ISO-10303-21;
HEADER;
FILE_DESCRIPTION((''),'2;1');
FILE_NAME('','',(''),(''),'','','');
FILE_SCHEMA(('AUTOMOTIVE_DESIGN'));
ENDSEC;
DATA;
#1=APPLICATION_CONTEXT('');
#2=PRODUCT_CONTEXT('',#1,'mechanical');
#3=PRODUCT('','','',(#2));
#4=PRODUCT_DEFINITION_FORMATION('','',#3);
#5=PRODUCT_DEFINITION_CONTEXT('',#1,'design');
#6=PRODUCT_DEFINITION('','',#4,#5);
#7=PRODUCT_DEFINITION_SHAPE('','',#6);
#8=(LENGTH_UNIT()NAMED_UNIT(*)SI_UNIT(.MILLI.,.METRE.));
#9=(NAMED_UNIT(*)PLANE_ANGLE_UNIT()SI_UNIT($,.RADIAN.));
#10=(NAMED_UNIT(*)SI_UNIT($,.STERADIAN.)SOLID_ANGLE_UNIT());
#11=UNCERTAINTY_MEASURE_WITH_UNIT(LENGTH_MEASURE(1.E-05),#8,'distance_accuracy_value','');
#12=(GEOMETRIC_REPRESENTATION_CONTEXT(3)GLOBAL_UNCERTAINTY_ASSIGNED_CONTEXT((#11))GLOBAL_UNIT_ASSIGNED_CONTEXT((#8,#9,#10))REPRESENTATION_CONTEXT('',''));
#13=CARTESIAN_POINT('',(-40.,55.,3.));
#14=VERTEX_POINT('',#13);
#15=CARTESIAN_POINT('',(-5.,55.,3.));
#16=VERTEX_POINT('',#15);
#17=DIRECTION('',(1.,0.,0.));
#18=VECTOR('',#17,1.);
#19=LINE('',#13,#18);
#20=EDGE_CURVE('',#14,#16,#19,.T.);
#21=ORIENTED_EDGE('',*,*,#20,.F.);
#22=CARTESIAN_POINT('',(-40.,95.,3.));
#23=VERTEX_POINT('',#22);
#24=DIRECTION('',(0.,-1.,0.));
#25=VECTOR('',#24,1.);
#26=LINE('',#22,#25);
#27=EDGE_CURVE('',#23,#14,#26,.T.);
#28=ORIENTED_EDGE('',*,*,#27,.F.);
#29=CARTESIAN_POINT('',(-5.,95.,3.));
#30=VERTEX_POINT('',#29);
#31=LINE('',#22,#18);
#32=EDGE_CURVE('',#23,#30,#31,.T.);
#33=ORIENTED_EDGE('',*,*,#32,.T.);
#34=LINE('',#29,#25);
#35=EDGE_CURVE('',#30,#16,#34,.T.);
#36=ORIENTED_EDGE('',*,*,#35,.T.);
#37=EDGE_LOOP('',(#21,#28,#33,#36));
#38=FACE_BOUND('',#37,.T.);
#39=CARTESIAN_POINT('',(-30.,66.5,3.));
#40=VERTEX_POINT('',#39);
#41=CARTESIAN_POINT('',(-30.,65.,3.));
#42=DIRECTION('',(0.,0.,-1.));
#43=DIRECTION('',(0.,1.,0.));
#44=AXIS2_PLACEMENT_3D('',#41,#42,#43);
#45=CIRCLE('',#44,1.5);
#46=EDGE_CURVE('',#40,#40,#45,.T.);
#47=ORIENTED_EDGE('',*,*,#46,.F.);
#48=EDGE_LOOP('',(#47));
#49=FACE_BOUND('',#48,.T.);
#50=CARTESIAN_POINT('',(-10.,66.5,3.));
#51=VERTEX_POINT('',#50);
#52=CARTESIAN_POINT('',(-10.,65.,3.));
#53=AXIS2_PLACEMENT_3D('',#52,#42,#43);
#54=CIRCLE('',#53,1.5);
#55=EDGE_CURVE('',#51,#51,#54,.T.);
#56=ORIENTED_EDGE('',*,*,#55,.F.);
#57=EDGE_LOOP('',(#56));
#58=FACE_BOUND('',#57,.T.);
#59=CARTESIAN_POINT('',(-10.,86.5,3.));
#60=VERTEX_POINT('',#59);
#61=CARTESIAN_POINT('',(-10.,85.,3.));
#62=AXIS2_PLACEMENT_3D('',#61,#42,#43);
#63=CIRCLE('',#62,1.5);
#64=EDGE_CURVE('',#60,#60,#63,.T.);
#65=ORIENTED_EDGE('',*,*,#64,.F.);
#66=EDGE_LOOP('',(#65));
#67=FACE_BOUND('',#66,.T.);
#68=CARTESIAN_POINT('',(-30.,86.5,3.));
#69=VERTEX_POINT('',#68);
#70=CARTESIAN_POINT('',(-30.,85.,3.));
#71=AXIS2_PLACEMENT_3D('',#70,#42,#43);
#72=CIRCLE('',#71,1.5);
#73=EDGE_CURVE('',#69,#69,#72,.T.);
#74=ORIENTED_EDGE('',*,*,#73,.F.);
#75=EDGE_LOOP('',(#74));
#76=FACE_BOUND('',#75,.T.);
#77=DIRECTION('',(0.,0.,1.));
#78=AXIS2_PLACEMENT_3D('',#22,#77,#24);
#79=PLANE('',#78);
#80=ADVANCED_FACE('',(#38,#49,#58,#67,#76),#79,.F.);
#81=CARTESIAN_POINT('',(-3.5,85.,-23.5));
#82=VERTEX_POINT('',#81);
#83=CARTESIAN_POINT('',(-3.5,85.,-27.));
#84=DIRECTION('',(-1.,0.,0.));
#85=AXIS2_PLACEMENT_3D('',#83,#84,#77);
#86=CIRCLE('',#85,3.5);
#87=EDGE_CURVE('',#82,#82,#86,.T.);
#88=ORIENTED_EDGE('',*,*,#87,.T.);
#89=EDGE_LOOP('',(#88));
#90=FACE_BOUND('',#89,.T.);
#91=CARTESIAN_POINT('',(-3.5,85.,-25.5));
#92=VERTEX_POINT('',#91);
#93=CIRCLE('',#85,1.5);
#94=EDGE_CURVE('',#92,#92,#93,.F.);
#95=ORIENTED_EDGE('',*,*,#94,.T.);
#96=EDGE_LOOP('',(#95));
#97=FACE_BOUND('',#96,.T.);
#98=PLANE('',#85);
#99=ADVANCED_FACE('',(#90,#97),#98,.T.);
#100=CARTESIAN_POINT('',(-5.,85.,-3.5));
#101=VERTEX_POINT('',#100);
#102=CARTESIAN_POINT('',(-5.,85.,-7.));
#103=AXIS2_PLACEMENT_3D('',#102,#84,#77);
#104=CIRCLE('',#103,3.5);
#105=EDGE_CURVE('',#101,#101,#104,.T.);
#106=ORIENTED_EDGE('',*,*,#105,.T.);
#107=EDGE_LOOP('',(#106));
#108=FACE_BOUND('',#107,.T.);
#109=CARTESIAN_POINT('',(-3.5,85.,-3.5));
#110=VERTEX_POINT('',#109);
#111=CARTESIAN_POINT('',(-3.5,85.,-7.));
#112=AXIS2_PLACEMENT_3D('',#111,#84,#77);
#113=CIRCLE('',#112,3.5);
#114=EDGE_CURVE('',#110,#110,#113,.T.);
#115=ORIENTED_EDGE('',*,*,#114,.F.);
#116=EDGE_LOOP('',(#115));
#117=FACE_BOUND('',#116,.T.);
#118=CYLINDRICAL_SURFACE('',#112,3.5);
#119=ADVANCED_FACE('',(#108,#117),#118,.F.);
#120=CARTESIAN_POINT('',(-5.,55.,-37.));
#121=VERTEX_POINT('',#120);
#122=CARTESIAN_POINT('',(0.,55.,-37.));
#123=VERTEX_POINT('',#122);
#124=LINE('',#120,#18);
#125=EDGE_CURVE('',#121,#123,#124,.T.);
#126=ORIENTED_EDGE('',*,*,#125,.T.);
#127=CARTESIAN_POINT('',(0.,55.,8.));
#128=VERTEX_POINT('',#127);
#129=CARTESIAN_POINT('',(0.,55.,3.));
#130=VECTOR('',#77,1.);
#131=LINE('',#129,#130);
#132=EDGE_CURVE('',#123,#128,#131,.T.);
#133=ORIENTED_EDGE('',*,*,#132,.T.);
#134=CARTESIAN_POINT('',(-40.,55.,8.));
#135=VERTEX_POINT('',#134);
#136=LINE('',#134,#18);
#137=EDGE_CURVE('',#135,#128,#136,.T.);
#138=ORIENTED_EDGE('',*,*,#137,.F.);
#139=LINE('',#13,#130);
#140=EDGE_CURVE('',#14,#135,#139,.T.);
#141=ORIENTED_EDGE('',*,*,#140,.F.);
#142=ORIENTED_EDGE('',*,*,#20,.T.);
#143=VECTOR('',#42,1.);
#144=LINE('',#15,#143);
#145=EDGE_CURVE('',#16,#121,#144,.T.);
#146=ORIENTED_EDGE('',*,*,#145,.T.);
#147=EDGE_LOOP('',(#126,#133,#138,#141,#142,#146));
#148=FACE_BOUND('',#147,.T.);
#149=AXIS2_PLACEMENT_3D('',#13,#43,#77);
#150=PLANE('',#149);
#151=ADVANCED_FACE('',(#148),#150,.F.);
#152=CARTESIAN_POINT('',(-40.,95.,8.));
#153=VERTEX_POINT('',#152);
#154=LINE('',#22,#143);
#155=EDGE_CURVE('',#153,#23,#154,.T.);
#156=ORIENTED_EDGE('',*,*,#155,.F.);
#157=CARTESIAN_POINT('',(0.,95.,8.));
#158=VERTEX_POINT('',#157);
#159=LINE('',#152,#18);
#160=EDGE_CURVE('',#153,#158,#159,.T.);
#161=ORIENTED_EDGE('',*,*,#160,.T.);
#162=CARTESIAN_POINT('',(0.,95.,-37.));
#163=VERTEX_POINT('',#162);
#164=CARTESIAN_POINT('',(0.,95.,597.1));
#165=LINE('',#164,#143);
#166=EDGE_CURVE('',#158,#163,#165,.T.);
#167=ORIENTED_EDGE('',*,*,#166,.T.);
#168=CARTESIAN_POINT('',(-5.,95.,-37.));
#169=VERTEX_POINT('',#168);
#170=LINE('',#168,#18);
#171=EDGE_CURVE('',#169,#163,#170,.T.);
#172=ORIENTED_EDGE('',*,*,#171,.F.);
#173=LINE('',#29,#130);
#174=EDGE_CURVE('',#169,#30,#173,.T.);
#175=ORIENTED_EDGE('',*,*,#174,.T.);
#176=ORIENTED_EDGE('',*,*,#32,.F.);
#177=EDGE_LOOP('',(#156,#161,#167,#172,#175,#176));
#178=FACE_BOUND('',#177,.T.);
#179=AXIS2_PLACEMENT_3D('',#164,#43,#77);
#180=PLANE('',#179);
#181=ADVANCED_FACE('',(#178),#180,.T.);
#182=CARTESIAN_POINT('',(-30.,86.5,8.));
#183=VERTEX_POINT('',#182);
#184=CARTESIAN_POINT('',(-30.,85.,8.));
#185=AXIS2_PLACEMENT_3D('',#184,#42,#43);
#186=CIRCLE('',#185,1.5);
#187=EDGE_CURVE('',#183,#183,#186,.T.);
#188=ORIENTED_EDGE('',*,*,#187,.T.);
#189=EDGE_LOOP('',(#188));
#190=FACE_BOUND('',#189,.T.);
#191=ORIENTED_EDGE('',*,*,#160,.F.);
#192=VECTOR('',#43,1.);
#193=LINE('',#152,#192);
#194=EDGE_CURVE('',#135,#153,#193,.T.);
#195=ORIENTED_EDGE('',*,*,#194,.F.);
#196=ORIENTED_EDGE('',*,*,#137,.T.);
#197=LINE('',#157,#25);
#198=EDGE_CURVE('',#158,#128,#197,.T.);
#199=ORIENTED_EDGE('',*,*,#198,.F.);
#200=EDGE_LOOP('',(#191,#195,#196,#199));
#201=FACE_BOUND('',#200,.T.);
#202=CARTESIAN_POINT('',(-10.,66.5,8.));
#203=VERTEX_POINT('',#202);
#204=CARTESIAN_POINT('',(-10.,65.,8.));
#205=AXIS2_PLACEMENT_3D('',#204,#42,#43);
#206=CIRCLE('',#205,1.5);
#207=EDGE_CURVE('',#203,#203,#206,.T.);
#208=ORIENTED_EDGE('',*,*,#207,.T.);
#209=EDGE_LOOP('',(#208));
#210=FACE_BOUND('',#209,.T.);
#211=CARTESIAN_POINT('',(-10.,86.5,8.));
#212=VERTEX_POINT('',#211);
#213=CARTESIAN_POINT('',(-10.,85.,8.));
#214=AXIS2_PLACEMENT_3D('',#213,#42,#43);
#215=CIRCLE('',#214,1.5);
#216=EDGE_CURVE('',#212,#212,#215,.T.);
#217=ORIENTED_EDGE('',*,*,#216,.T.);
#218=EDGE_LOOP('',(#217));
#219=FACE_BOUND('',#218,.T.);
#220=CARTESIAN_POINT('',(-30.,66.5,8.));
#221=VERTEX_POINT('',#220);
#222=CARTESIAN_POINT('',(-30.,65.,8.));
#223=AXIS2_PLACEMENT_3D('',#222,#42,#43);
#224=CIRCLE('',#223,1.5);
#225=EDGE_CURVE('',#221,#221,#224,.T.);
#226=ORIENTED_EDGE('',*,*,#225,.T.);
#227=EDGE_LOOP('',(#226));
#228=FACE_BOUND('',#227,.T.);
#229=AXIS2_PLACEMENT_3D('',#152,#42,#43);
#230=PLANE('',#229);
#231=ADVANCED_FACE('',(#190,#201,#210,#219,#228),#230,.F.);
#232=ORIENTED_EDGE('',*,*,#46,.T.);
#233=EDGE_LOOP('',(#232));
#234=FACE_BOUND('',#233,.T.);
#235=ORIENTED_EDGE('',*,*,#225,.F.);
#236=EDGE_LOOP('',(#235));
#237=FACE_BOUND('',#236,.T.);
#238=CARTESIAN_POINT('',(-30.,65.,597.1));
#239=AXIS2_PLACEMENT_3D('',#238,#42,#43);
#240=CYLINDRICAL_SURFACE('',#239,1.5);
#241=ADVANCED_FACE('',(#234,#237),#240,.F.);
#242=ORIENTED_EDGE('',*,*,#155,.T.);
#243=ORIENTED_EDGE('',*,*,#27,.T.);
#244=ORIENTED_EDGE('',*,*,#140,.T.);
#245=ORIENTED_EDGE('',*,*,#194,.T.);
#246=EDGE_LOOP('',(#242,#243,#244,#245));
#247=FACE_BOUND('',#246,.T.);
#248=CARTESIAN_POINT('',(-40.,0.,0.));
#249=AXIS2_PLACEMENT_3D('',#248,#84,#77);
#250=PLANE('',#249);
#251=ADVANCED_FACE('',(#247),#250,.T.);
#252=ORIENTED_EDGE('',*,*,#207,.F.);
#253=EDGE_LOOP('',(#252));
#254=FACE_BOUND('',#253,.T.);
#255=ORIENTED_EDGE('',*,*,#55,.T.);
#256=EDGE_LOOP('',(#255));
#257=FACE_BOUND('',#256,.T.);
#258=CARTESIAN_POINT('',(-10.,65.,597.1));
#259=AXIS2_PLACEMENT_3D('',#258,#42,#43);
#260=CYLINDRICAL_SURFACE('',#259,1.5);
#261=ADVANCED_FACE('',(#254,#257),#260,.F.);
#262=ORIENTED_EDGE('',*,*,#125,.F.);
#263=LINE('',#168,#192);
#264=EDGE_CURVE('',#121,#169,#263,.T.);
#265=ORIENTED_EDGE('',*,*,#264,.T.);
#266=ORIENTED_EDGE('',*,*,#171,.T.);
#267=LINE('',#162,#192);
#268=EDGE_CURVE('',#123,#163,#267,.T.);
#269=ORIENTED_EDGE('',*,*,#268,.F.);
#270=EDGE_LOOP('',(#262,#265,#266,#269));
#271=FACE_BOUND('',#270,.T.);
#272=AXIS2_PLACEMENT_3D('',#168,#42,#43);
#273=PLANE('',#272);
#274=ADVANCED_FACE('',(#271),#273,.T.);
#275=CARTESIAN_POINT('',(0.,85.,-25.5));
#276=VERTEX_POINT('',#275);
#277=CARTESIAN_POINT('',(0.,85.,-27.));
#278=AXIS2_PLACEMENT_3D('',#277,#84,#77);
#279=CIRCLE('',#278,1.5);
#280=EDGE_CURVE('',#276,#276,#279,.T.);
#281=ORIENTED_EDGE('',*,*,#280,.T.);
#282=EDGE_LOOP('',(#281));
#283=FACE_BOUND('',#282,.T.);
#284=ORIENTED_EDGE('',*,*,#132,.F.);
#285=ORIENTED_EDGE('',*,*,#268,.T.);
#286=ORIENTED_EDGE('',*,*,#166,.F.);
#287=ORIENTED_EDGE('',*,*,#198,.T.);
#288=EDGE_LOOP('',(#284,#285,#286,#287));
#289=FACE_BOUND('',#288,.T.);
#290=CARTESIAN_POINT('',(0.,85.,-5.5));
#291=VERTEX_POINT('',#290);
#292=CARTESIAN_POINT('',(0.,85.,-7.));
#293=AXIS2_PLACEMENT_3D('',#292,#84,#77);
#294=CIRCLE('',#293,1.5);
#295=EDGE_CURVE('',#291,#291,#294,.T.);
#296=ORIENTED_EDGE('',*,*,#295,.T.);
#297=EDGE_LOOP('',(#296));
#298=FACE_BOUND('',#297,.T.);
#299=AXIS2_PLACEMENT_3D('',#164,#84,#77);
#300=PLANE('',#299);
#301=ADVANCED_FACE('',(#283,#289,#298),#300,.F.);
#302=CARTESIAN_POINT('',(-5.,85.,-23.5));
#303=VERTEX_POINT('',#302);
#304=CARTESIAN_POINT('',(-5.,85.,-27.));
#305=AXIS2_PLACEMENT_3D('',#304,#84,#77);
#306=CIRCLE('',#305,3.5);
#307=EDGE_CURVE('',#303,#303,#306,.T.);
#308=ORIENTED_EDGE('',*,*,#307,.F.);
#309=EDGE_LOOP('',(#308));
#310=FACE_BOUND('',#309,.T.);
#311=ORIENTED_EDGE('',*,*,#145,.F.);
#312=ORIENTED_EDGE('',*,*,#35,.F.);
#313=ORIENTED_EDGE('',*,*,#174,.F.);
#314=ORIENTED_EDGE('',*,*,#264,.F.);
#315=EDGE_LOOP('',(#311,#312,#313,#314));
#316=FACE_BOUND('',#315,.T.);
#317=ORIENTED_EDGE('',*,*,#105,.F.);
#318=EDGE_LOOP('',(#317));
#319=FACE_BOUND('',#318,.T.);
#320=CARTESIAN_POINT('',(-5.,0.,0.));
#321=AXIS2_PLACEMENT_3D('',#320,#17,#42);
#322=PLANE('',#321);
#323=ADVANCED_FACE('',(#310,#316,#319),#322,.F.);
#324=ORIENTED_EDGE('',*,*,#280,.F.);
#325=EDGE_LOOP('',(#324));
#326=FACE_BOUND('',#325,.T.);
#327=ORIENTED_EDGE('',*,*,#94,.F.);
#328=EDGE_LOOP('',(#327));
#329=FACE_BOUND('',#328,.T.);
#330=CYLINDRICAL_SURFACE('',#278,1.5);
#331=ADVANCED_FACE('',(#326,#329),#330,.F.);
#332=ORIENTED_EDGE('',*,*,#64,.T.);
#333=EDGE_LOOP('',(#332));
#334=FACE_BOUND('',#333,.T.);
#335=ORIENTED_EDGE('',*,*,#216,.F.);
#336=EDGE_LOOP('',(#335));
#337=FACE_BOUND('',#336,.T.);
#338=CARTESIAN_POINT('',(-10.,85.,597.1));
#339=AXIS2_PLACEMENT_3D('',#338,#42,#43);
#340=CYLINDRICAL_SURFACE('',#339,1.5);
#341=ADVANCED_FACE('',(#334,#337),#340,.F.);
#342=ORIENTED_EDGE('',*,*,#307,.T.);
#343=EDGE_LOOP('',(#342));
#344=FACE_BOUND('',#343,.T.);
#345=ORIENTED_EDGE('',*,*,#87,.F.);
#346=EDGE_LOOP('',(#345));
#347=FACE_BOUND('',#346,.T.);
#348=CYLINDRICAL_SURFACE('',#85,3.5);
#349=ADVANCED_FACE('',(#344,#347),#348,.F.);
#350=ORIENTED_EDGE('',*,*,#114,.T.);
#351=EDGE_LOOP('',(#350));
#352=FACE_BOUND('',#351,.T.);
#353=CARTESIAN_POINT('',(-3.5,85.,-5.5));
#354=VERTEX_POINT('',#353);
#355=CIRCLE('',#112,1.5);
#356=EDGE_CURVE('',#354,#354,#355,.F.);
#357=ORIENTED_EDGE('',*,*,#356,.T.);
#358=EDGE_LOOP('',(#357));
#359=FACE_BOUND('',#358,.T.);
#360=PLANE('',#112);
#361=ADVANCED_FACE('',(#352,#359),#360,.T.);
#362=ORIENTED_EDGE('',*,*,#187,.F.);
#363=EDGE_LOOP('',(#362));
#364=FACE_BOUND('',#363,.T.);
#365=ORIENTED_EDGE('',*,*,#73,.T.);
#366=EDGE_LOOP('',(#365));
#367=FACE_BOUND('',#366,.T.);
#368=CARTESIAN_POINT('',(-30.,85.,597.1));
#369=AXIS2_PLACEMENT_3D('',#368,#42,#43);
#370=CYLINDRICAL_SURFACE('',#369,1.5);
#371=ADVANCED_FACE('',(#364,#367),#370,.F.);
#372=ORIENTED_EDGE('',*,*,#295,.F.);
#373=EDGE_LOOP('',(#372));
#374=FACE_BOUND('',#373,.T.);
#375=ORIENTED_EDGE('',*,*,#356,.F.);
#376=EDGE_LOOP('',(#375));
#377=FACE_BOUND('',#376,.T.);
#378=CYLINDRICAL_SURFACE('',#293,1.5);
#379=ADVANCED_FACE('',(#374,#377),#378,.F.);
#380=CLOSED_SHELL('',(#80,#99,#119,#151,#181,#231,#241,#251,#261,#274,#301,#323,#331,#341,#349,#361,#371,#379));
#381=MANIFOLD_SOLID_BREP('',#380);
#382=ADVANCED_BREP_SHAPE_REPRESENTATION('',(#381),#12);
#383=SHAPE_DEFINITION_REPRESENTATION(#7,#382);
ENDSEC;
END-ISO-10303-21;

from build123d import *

# Parameters (mm, degrees)
BOSS_EXTRUDE1_DEPTH  = 597.1
SKETCH2_W            = 65.2
SKETCH2_H            = 400
CUT_EXTRUDE1_DEPTH   = 800.095369778
BOSS_EXTRUDE2_DEPTH  = 8
SKETCH4_W            = 525
SKETCH4_H            = 597.1
BOSS_EXTRUDE3_DEPTH  = 7
SKETCH5_W            = 365
SKETCH5_H            = 597.1
CUT_EXTRUDE2_DEPTH   = 10
CUT_EXTRUDE3_REACH   = 802.736
SKETCH6_R            = 2.125
SKETCH7_W            = 20
SKETCH7_H            = 597.1
CUT_EXTRUDE4_DEPTH   = 5
SKETCH8_W            = 55.055493435
SKETCH8_H            = 20
CUT_EXTRUDE6_DEPTH   = 60
BOSS_EXTRUDE4_REACH  = 799.121
SKETCH13_W           = 40
SKETCH13_H           = 15
SKETCH14_W           = 20
SKETCH14_H           = 597.1
CUT_EXTRUDE7_DEPTH   = 5
CUT_EXTRUDE8_REACH   = 802.736
SKETCH15_R           = 1.33
SKETCH16_W           = 35
SKETCH16_H           = 15
CUT_EXTRUDE9_DEPTH   = 60
SKETCH17_W           = 60
SKETCH17_H           = 150
CUT_EXTRUDE10_DEPTH  = 40
SKETCH18_W           = 12
SKETCH18_H           = 16
CUT_EXTRUDE11_DEPTH  = 800.298073312
SKETCH19_W           = 8
SKETCH19_H           = 7
CUT_EXTRUDE12_DEPTH  = 10
CUT_EXTRUDE13_REACH  = 802.736
SKETCH20_R           = 2.75986214
SKETCH20_R_2         = 2.757960919
SKETCH20_R_3         = 2.776094021
SKETCH20_R_4         = 2.751394876
CUT_EXTRUDE14_REACH  = 802.736
SKETCH21_R           = 1.643359813
SKETCH21_R_2         = 1.638913006
SKETCH21_R_3         = 1.644479807
SKETCH21_R_4         = 1.70596398
SKETCH21_R_5         = 1.645380558
SKETCH21_R_6         = 1.646601879
SKETCH21_R_7         = 1.661334202
SKETCH21_R_8         = 1.701244733
CUT_EXTRUDE15_REACH  = 752.719
SKETCH22_W           = 15
SKETCH22_H           = 20
CUT_EXTRUDE16_REACH  = 802.736
SKETCH24_R           = 1.5
SKETCH27_W           = 35
SKETCH27_H           = 15
CUT_EXTRUDE17_DEPTH  = 60
CUT_EXTRUDE18_START  = -60
SKETCH28_W           = 35
SKETCH28_H           = 15
SKETCH28_R           = 1.5
CUT_EXTRUDE18_DEPTH  = 60
SKETCH29_W           = 60
SKETCH29_H           = 150
CUT_EXTRUDE19_DEPTH  = 40
CUT_EXTRUDE20_REACH  = 802.736
SKETCH33_R           = 2.5
SKETCH37_W           = 55
SKETCH37_H           = 20
CUT_EXTRUDE21_DEPTH  = 60
SKETCH39_W           = 5
SKETCH39_H           = 40
BOSS_EXTRUDE6_DEPTH  = 40
SKETCH41_R           = 1.5
CUT_EXTRUDE22_DEPTH  = 799.501603004
SKETCH42_W           = 35
SKETCH42_H           = 15
BOSS_EXTRUDE7_DEPTH  = 60
SKETCH43_W           = 41.147889502
SKETCH43_H           = 41.618954825
SKETCH43_W_2         = 42.4363484
SKETCH43_H_2         = 40
BOSS_EXTRUDE8_DEPTH  = 20
SKETCH44_W           = 49.636924656
SKETCH44_H           = 46.225017069
SKETCH44_W_2         = 46.873520021
BOSS_EXTRUDE9_DEPTH  = 20
SKETCH45_W           = 35
SKETCH45_H           = 15
BOSS_EXTRUDE10_DEPTH = 60
SKETCH46_W           = 5
SKETCH46_H           = 40
BOSS_EXTRUDE11_DEPTH = 40
SKETCH47_R           = 1.5
CUT_EXTRUDE23_DEPTH  = 826.351325194
FILLET1_R            = 5
FILLET2_R            = 5
SKETCH51_W           = 40
SKETCH51_H           = 40
BOSS_EXTRUDE12_DEPTH = 5
SKETCH52_R           = 3
CUT_EXTRUDE26_DEPTH  = 831.93526222
SKETCH53_R           = 3.280439698
BOSS_EXTRUDE13_DEPTH = 570
CUT_EXTRUDE27_START  = -40
SKETCH54_R           = 3.280439698
CUT_EXTRUDE27_DEPTH  = 40
SKETCH55_W           = 485
SKETCH55_H           = 14.478767201
CUT_EXTRUDE28_DEPTH  = 40
SKETCH57_W           = 723.186896727
SKETCH57_H           = 160.707941424
CUT_EXTRUDE30_DEPTH  = 828.51338962
SKETCH60_W           = 40
SKETCH60_H           = 40
BOSS_EXTRUDE15_DEPTH = 5
SKETCH61_R           = 3
CUT_EXTRUDE31_DEPTH  = 5
SKETCH62_W           = 40
SKETCH62_H           = 40
CUT_EXTRUDE32_DEPTH  = 5
SKETCH63_R           = 4.70093443
SKETCH63_R_2         = 1.5
SKETCH63_R_3         = 5.7398541
BOSS_EXTRUDE16_DEPTH = 5
SKETCH64_R           = 3.5
CUT_EXTRUDE33_DEPTH  = 1.5


with BuildPart() as part:
    # Sketch1 → Boss-Extrude1 (new body)
    with BuildSketch(Plane.XY):
        Polygon((0, 95), (0, 0), (237.916666667, 0), (262.5, 0), (262.5, 15), (80, 15), (80, 80), (70, 80), (70, 75), (50, 75), (50, 80), (40, 80), (40, 75), (20, 75), (20, 95), align=None)
        Polygon((262.5, 15), (262.5, 0), (287.083333333, 0), (525, 0), (525, 95), (505, 95), (505, 75), (485, 75), (485, 80), (475, 80), (475, 75), (455, 75), (455, 80), (445, 80), (445, 15), align=None)
    extrude(amount=BOSS_EXTRUDE1_DEPTH)

    # Sketch2 → Cut-Extrude1 (cut, through all)
    with BuildSketch(Plane(origin=(0, 15, 0), x_dir=(1, 0, 0), z_dir=(0, 1, 0))):
        with Locations((219.9, -200)):
            Rectangle(SKETCH2_W, SKETCH2_H)
        with Locations((305.1, -397.1)):
            Rectangle(SKETCH2_W, SKETCH2_H)
    extrude(amount=-CUT_EXTRUDE1_DEPTH, mode=Mode.SUBTRACT)

    # Sketch3 → Boss-Extrude2 (add)
    with BuildSketch(Plane(origin=(0, 15, 0), x_dir=(1, 0, 0), z_dir=(0, 1, 0))):
        Polygon((252.5, -400), (187.3, -400), (187.3, 0), (80, 0), (80, -597.1), (272.5, -597.1), (272.5, -197.1), (337.7, -197.1), (337.7, -597.1), (445, -597.1), (445, 0), (252.5, 0), align=None)
    extrude(amount=BOSS_EXTRUDE2_DEPTH)

    # Sketch4 → Boss-Extrude3 (add)
    with BuildSketch(Plane.XZ):
        with Locations((262.5, 298.55)):
            Rectangle(SKETCH4_W, SKETCH4_H)
    extrude(amount=BOSS_EXTRUDE3_DEPTH)

    # Sketch5 → Cut-Extrude2 (cut)
    with BuildSketch(Plane(origin=(0, 23, 0), x_dir=(1, 0, 0), z_dir=(0, 1, 0))):
        with Locations((262.5, -298.55)):
            Rectangle(SKETCH5_W, SKETCH5_H)
    extrude(amount=-CUT_EXTRUDE2_DEPTH, mode=Mode.SUBTRACT)

    # Sketch6 → Cut-Extrude3 (cut, up to next)
    with BuildSketch(Plane(origin=(525, 0, 0), x_dir=(0, 0, -1), z_dir=(1, 0, 0)), mode=Mode.PRIVATE) as cut_extrude3_sk1:
        with Locations((-318.55, 79)):
            Circle(SKETCH6_R)
    cut_extrude3_tool1 = extrude(cut_extrude3_sk1.sketch, amount=-CUT_EXTRUDE3_REACH, mode=Mode.PRIVATE) & part.part
    # Sketch6 → Cut-Extrude3 (cut, up to next)
    with BuildSketch(Plane(origin=(525, 0, 0), x_dir=(0, 0, -1), z_dir=(1, 0, 0)), mode=Mode.PRIVATE) as cut_extrude3_sk2:
        with Locations((-318.55, 63)):
            Circle(SKETCH6_R)
    cut_extrude3_tool2 = extrude(cut_extrude3_sk2.sketch, amount=-CUT_EXTRUDE3_REACH, mode=Mode.PRIVATE) & part.part
    # Sketch6 → Cut-Extrude3 (cut, up to next)
    with BuildSketch(Plane(origin=(525, 0, 0), x_dir=(0, 0, -1), z_dir=(1, 0, 0)), mode=Mode.PRIVATE) as cut_extrude3_sk3:
        with Locations((-278.55, 63)):
            Circle(SKETCH6_R)
    cut_extrude3_tool3 = extrude(cut_extrude3_sk3.sketch, amount=-CUT_EXTRUDE3_REACH, mode=Mode.PRIVATE) & part.part
    # Sketch6 → Cut-Extrude3 (cut, up to next)
    with BuildSketch(Plane(origin=(525, 0, 0), x_dir=(0, 0, -1), z_dir=(1, 0, 0)), mode=Mode.PRIVATE) as cut_extrude3_sk4:
        with Locations((-278.55, 79)):
            Circle(SKETCH6_R)
    cut_extrude3_tool4 = extrude(cut_extrude3_sk4.sketch, amount=-CUT_EXTRUDE3_REACH, mode=Mode.PRIVATE) & part.part
    add(cut_extrude3_tool1.solids().sort_by_distance((525, 79, 318.55))[0], mode=Mode.SUBTRACT)
    add(cut_extrude3_tool2.solids().sort_by_distance((525, 63, 318.55))[0], mode=Mode.SUBTRACT)
    add(cut_extrude3_tool3.solids().sort_by_distance((525, 63, 278.55))[0], mode=Mode.SUBTRACT)
    add(cut_extrude3_tool4.solids().sort_by_distance((525, 79, 278.55))[0], mode=Mode.SUBTRACT)

    # Sketch7 → Cut-Extrude4 (cut)
    with BuildSketch(Plane(origin=(0, 75, 0), x_dir=(1, 0, 0), z_dir=(0, 1, 0))):
        with Locations((495, -298.55)):
            Rectangle(SKETCH7_W, SKETCH7_H)
    extrude(amount=-CUT_EXTRUDE4_DEPTH, mode=Mode.SUBTRACT)

    # Sketch8 → Cut-Extrude6 (cut)
    with BuildSketch(Plane.ZY.offset(-445)):
        with Locations((297.395302375, 60)):
            Rectangle(SKETCH8_W, SKETCH8_H)
    extrude(amount=-CUT_EXTRUDE6_DEPTH, mode=Mode.SUBTRACT)

    # Sketch13 → Boss-Extrude4 (add, up to next)
    with BuildSketch(Plane(origin=(0, 50, 0), x_dir=(1, 0, 0), z_dir=(0, 1, 0)), mode=Mode.PRIVATE) as boss_extrude4_sk1:
        with Locations((465, -297.800707188)):
            Rectangle(SKETCH13_W, SKETCH13_H)
    boss_extrude4_tool1 = extrude(boss_extrude4_sk1.sketch, amount=BOSS_EXTRUDE4_REACH, mode=Mode.PRIVATE) - part.part
    add(boss_extrude4_tool1.solids().sort_by_distance((465, 50, 297.800707))[0])

    # Sketch14 → Cut-Extrude7 (cut)
    with BuildSketch(Plane(origin=(0, 75, 0), x_dir=(1, 0, 0), z_dir=(0, 1, 0))):
        with Locations((30, -298.55)):
            Rectangle(SKETCH14_W, SKETCH14_H)
    extrude(amount=-CUT_EXTRUDE7_DEPTH, mode=Mode.SUBTRACT)

    # Sketch15 → Cut-Extrude8 (cut, up to next)
    with BuildSketch(Plane.ZY, mode=Mode.PRIVATE) as cut_extrude8_sk1:
        with Locations((13.5, 82.3)):
            Circle(SKETCH15_R)
    cut_extrude8_tool1 = extrude(cut_extrude8_sk1.sketch, amount=-CUT_EXTRUDE8_REACH, mode=Mode.PRIVATE) & part.part
    # Sketch15 → Cut-Extrude8 (cut, up to next)
    with BuildSketch(Plane.ZY, mode=Mode.PRIVATE) as cut_extrude8_sk2:
        with Locations((33.5, 82.3)):
            Circle(SKETCH15_R)
    cut_extrude8_tool2 = extrude(cut_extrude8_sk2.sketch, amount=-CUT_EXTRUDE8_REACH, mode=Mode.PRIVATE) & part.part
    # Sketch15 → Cut-Extrude8 (cut, up to next)
    with BuildSketch(Plane.ZY, mode=Mode.PRIVATE) as cut_extrude8_sk3:
        with Locations((13.5, 62.3)):
            Circle(SKETCH15_R)
    cut_extrude8_tool3 = extrude(cut_extrude8_sk3.sketch, amount=-CUT_EXTRUDE8_REACH, mode=Mode.PRIVATE) & part.part
    # Sketch15 → Cut-Extrude8 (cut, up to next)
    with BuildSketch(Plane.ZY, mode=Mode.PRIVATE) as cut_extrude8_sk4:
        with Locations((33.5, 62.3)):
            Circle(SKETCH15_R)
    cut_extrude8_tool4 = extrude(cut_extrude8_sk4.sketch, amount=-CUT_EXTRUDE8_REACH, mode=Mode.PRIVATE) & part.part
    # Sketch15 → Cut-Extrude8 (cut, up to next)
    with BuildSketch(Plane.ZY, mode=Mode.PRIVATE) as cut_extrude8_sk5:
        with Locations((563.6, 82.3)):
            Circle(SKETCH15_R)
    cut_extrude8_tool5 = extrude(cut_extrude8_sk5.sketch, amount=-CUT_EXTRUDE8_REACH, mode=Mode.PRIVATE) & part.part
    # Sketch15 → Cut-Extrude8 (cut, up to next)
    with BuildSketch(Plane.ZY, mode=Mode.PRIVATE) as cut_extrude8_sk6:
        with Locations((583.6, 62.3)):
            Circle(SKETCH15_R)
    cut_extrude8_tool6 = extrude(cut_extrude8_sk6.sketch, amount=-CUT_EXTRUDE8_REACH, mode=Mode.PRIVATE) & part.part
    # Sketch15 → Cut-Extrude8 (cut, up to next)
    with BuildSketch(Plane.ZY, mode=Mode.PRIVATE) as cut_extrude8_sk7:
        with Locations((563.6, 62.3)):
            Circle(SKETCH15_R)
    cut_extrude8_tool7 = extrude(cut_extrude8_sk7.sketch, amount=-CUT_EXTRUDE8_REACH, mode=Mode.PRIVATE) & part.part
    # Sketch15 → Cut-Extrude8 (cut, up to next)
    with BuildSketch(Plane.ZY, mode=Mode.PRIVATE) as cut_extrude8_sk8:
        with Locations(Location((583.6, 82.3, 0), (0, 0, 90))):
            Circle(SKETCH15_R)
    cut_extrude8_tool8 = extrude(cut_extrude8_sk8.sketch, amount=-CUT_EXTRUDE8_REACH, mode=Mode.PRIVATE) & part.part
    add(cut_extrude8_tool1.solids().sort_by_distance((0, 82.3, 13.5))[0], mode=Mode.SUBTRACT)
    add(cut_extrude8_tool2.solids().sort_by_distance((0, 82.3, 33.5))[0], mode=Mode.SUBTRACT)
    add(cut_extrude8_tool3.solids().sort_by_distance((0, 62.3, 13.5))[0], mode=Mode.SUBTRACT)
    add(cut_extrude8_tool4.solids().sort_by_distance((0, 62.3, 33.5))[0], mode=Mode.SUBTRACT)
    add(cut_extrude8_tool5.solids().sort_by_distance((0, 82.3, 563.6))[0], mode=Mode.SUBTRACT)
    add(cut_extrude8_tool6.solids().sort_by_distance((0, 62.3, 583.6))[0], mode=Mode.SUBTRACT)
    add(cut_extrude8_tool7.solids().sort_by_distance((0, 62.3, 563.6))[0], mode=Mode.SUBTRACT)
    add(cut_extrude8_tool8.solids().sort_by_distance((0, 82.3, 583.6))[0], mode=Mode.SUBTRACT)

    # Sketch16 → Cut-Extrude9 (cut)
    with BuildSketch(Plane(origin=(80, 0, 0), x_dir=(0, 0, -1), z_dir=(1, 0, 0))):
        with Locations((-574.6, 62.5)):
            Rectangle(SKETCH16_W, SKETCH16_H)
        with Locations((-22.5, 62.5)):
            Rectangle(SKETCH16_W, SKETCH16_H)
    extrude(amount=-CUT_EXTRUDE9_DEPTH, mode=Mode.SUBTRACT)

    # Sketch17 → Cut-Extrude10 (cut)
    with BuildSketch(Plane.XZ.offset(7)):
        with Locations((495, 298.55)):
            Rectangle(SKETCH17_W, SKETCH17_H)
    extrude(amount=-CUT_EXTRUDE10_DEPTH, mode=Mode.SUBTRACT)

    # Sketch18 → Cut-Extrude11 (cut, through all)
    with BuildSketch(Plane(origin=(0, 13, 0), x_dir=(1, 0, 0), z_dir=(0, 1, 0))):
        with Locations((421, -294.05)):
            Rectangle(SKETCH18_W, SKETCH18_H)
    extrude(amount=-CUT_EXTRUDE11_DEPTH, mode=Mode.SUBTRACT)

    # Sketch19 → Cut-Extrude12 (cut)
    with BuildSketch(Plane(origin=(0, 13, 0), x_dir=(1, 0, 0), z_dir=(0, 1, 0))):
        with Locations((421, -282.55)):
            Rectangle(SKETCH19_W, SKETCH19_H)
        with Locations((421, -305.55)):
            Rectangle(SKETCH19_W, SKETCH19_H)
    extrude(amount=-CUT_EXTRUDE12_DEPTH, mode=Mode.SUBTRACT)

    # Sketch20 → Cut-Extrude13 (cut, up to next)
    with BuildSketch(Plane(origin=(525, 0, 0), x_dir=(0, 0, -1), z_dir=(1, 0, 0)), mode=Mode.PRIVATE) as cut_extrude13_sk1:
        with Locations((-318.55, 79)):
            Circle(SKETCH20_R)
    cut_extrude13_tool1 = extrude(cut_extrude13_sk1.sketch, amount=-CUT_EXTRUDE13_REACH, mode=Mode.PRIVATE) & part.part
    # Sketch20 → Cut-Extrude13 (cut, up to next)
    with BuildSketch(Plane(origin=(525, 0, 0), x_dir=(0, 0, -1), z_dir=(1, 0, 0)), mode=Mode.PRIVATE) as cut_extrude13_sk2:
        with Locations((-318.55, 63)):
            Circle(SKETCH20_R_2)
    cut_extrude13_tool2 = extrude(cut_extrude13_sk2.sketch, amount=-CUT_EXTRUDE13_REACH, mode=Mode.PRIVATE) & part.part
    # Sketch20 → Cut-Extrude13 (cut, up to next)
    with BuildSketch(Plane(origin=(525, 0, 0), x_dir=(0, 0, -1), z_dir=(1, 0, 0)), mode=Mode.PRIVATE) as cut_extrude13_sk3:
        with Locations((-278.55, 63)):
            Circle(SKETCH20_R_3)
    cut_extrude13_tool3 = extrude(cut_extrude13_sk3.sketch, amount=-CUT_EXTRUDE13_REACH, mode=Mode.PRIVATE) & part.part
    # Sketch20 → Cut-Extrude13 (cut, up to next)
    with BuildSketch(Plane(origin=(525, 0, 0), x_dir=(0, 0, -1), z_dir=(1, 0, 0)), mode=Mode.PRIVATE) as cut_extrude13_sk4:
        with Locations((-278.55, 79)):
            Circle(SKETCH20_R_4)
    cut_extrude13_tool4 = extrude(cut_extrude13_sk4.sketch, amount=-CUT_EXTRUDE13_REACH, mode=Mode.PRIVATE) & part.part
    add(cut_extrude13_tool1.solids().sort_by_distance((525, 79, 318.55))[0], mode=Mode.SUBTRACT)
    add(cut_extrude13_tool2.solids().sort_by_distance((525, 63, 318.55))[0], mode=Mode.SUBTRACT)
    add(cut_extrude13_tool3.solids().sort_by_distance((525, 63, 278.55))[0], mode=Mode.SUBTRACT)
    add(cut_extrude13_tool4.solids().sort_by_distance((525, 79, 278.55))[0], mode=Mode.SUBTRACT)

    # Sketch21 → Cut-Extrude14 (cut, up to next)
    with BuildSketch(Plane.ZY, mode=Mode.PRIVATE) as cut_extrude14_sk1:
        with Locations((13.5, 82.3)):
            Circle(SKETCH21_R)
    cut_extrude14_tool1 = extrude(cut_extrude14_sk1.sketch, amount=-CUT_EXTRUDE14_REACH, mode=Mode.PRIVATE) & part.part
    # Sketch21 → Cut-Extrude14 (cut, up to next)
    with BuildSketch(Plane.ZY, mode=Mode.PRIVATE) as cut_extrude14_sk2:
        with Locations((13.5, 62.3)):
            Circle(SKETCH21_R_2)
    cut_extrude14_tool2 = extrude(cut_extrude14_sk2.sketch, amount=-CUT_EXTRUDE14_REACH, mode=Mode.PRIVATE) & part.part
    # Sketch21 → Cut-Extrude14 (cut, up to next)
    with BuildSketch(Plane.ZY, mode=Mode.PRIVATE) as cut_extrude14_sk3:
        with Locations((33.5, 62.3)):
            Circle(SKETCH21_R_3)
    cut_extrude14_tool3 = extrude(cut_extrude14_sk3.sketch, amount=-CUT_EXTRUDE14_REACH, mode=Mode.PRIVATE) & part.part
    # Sketch21 → Cut-Extrude14 (cut, up to next)
    with BuildSketch(Plane.ZY, mode=Mode.PRIVATE) as cut_extrude14_sk4:
        with Locations((33.5, 82.3)):
            Circle(SKETCH21_R_4)
    cut_extrude14_tool4 = extrude(cut_extrude14_sk4.sketch, amount=-CUT_EXTRUDE14_REACH, mode=Mode.PRIVATE) & part.part
    # Sketch21 → Cut-Extrude14 (cut, up to next)
    with BuildSketch(Plane.ZY, mode=Mode.PRIVATE) as cut_extrude14_sk5:
        with Locations((563.6, 62.3)):
            Circle(SKETCH21_R_5)
    cut_extrude14_tool5 = extrude(cut_extrude14_sk5.sketch, amount=-CUT_EXTRUDE14_REACH, mode=Mode.PRIVATE) & part.part
    # Sketch21 → Cut-Extrude14 (cut, up to next)
    with BuildSketch(Plane.ZY, mode=Mode.PRIVATE) as cut_extrude14_sk6:
        with Locations((583.6, 62.3)):
            Circle(SKETCH21_R_6)
    cut_extrude14_tool6 = extrude(cut_extrude14_sk6.sketch, amount=-CUT_EXTRUDE14_REACH, mode=Mode.PRIVATE) & part.part
    # Sketch21 → Cut-Extrude14 (cut, up to next)
    with BuildSketch(Plane.ZY, mode=Mode.PRIVATE) as cut_extrude14_sk7:
        with Locations((583.6, 82.3)):
            Circle(SKETCH21_R_7)
    cut_extrude14_tool7 = extrude(cut_extrude14_sk7.sketch, amount=-CUT_EXTRUDE14_REACH, mode=Mode.PRIVATE) & part.part
    # Sketch21 → Cut-Extrude14 (cut, up to next)
    with BuildSketch(Plane.ZY, mode=Mode.PRIVATE) as cut_extrude14_sk8:
        with Locations((563.6, 82.3)):
            Circle(SKETCH21_R_8)
    cut_extrude14_tool8 = extrude(cut_extrude14_sk8.sketch, amount=-CUT_EXTRUDE14_REACH, mode=Mode.PRIVATE) & part.part
    add(cut_extrude14_tool1.solids().sort_by_distance((0, 82.3, 13.5))[0], mode=Mode.SUBTRACT)
    add(cut_extrude14_tool2.solids().sort_by_distance((0, 62.3, 13.5))[0], mode=Mode.SUBTRACT)
    add(cut_extrude14_tool3.solids().sort_by_distance((0, 62.3, 33.5))[0], mode=Mode.SUBTRACT)
    add(cut_extrude14_tool4.solids().sort_by_distance((0, 82.3, 33.5))[0], mode=Mode.SUBTRACT)
    add(cut_extrude14_tool5.solids().sort_by_distance((0, 62.3, 563.6))[0], mode=Mode.SUBTRACT)
    add(cut_extrude14_tool6.solids().sort_by_distance((0, 62.3, 583.6))[0], mode=Mode.SUBTRACT)
    add(cut_extrude14_tool7.solids().sort_by_distance((0, 82.3, 583.6))[0], mode=Mode.SUBTRACT)
    add(cut_extrude14_tool8.solids().sort_by_distance((0, 82.3, 563.6))[0], mode=Mode.SUBTRACT)

    # Sketch22 → Cut-Extrude15 (cut, up to next)
    with BuildSketch(Plane.ZY.offset(-445), mode=Mode.PRIVATE) as cut_extrude15_sk1:
        with Locations((297.800707188, 60)):
            Rectangle(SKETCH22_W, SKETCH22_H)
    cut_extrude15_tool1 = extrude(cut_extrude15_sk1.sketch, amount=-CUT_EXTRUDE15_REACH, mode=Mode.PRIVATE) & part.part
    add(cut_extrude15_tool1.solids().sort_by_distance((445, 60, 297.800707))[0], mode=Mode.SUBTRACT)

    # Sketch24 → Cut-Extrude16 (cut, up to next)
    with BuildSketch(Plane(origin=(525, 0, 0), x_dir=(0, 0, -1), z_dir=(1, 0, 0)), mode=Mode.PRIVATE) as cut_extrude16_sk1:
        with Locations((-583.6, 82.3)):
            Circle(SKETCH24_R)
    cut_extrude16_tool1 = extrude(cut_extrude16_sk1.sketch, amount=-CUT_EXTRUDE16_REACH, mode=Mode.PRIVATE) & part.part
    # Sketch24 → Cut-Extrude16 (cut, up to next)
    with BuildSketch(Plane(origin=(525, 0, 0), x_dir=(0, 0, -1), z_dir=(1, 0, 0)), mode=Mode.PRIVATE) as cut_extrude16_sk2:
        with Locations((-563.6, 82.3)):
            Circle(SKETCH24_R)
    cut_extrude16_tool2 = extrude(cut_extrude16_sk2.sketch, amount=-CUT_EXTRUDE16_REACH, mode=Mode.PRIVATE) & part.part
    # Sketch24 → Cut-Extrude16 (cut, up to next)
    with BuildSketch(Plane(origin=(525, 0, 0), x_dir=(0, 0, -1), z_dir=(1, 0, 0)), mode=Mode.PRIVATE) as cut_extrude16_sk3:
        with Locations((-583.6, 62.3)):
            Circle(SKETCH24_R)
    cut_extrude16_tool3 = extrude(cut_extrude16_sk3.sketch, amount=-CUT_EXTRUDE16_REACH, mode=Mode.PRIVATE) & part.part
    # Sketch24 → Cut-Extrude16 (cut, up to next)
    with BuildSketch(Plane(origin=(525, 0, 0), x_dir=(0, 0, -1), z_dir=(1, 0, 0)), mode=Mode.PRIVATE) as cut_extrude16_sk4:
        with Locations((-563.6, 62.3)):
            Circle(SKETCH24_R)
    cut_extrude16_tool4 = extrude(cut_extrude16_sk4.sketch, amount=-CUT_EXTRUDE16_REACH, mode=Mode.PRIVATE) & part.part
    # Sketch24 → Cut-Extrude16 (cut, up to next)
    with BuildSketch(Plane(origin=(525, 0, 0), x_dir=(0, 0, -1), z_dir=(1, 0, 0)), mode=Mode.PRIVATE) as cut_extrude16_sk5:
        with Locations((-33.5, 82.3)):
            Circle(SKETCH24_R)
    cut_extrude16_tool5 = extrude(cut_extrude16_sk5.sketch, amount=-CUT_EXTRUDE16_REACH, mode=Mode.PRIVATE) & part.part
    # Sketch24 → Cut-Extrude16 (cut, up to next)
    with BuildSketch(Plane(origin=(525, 0, 0), x_dir=(0, 0, -1), z_dir=(1, 0, 0)), mode=Mode.PRIVATE) as cut_extrude16_sk6:
        with Locations((-13.5, 82.3)):
            Circle(SKETCH24_R)
    cut_extrude16_tool6 = extrude(cut_extrude16_sk6.sketch, amount=-CUT_EXTRUDE16_REACH, mode=Mode.PRIVATE) & part.part
    # Sketch24 → Cut-Extrude16 (cut, up to next)
    with BuildSketch(Plane(origin=(525, 0, 0), x_dir=(0, 0, -1), z_dir=(1, 0, 0)), mode=Mode.PRIVATE) as cut_extrude16_sk7:
        with Locations((-13.5, 62.3)):
            Circle(SKETCH24_R)
    cut_extrude16_tool7 = extrude(cut_extrude16_sk7.sketch, amount=-CUT_EXTRUDE16_REACH, mode=Mode.PRIVATE) & part.part
    # Sketch24 → Cut-Extrude16 (cut, up to next)
    with BuildSketch(Plane(origin=(525, 0, 0), x_dir=(0, 0, -1), z_dir=(1, 0, 0)), mode=Mode.PRIVATE) as cut_extrude16_sk8:
        with Locations((-33.5, 62.3)):
            Circle(SKETCH24_R)
    cut_extrude16_tool8 = extrude(cut_extrude16_sk8.sketch, amount=-CUT_EXTRUDE16_REACH, mode=Mode.PRIVATE) & part.part
    add(cut_extrude16_tool1.solids().sort_by_distance((525, 82.3, 583.6))[0], mode=Mode.SUBTRACT)
    add(cut_extrude16_tool2.solids().sort_by_distance((525, 82.3, 563.6))[0], mode=Mode.SUBTRACT)
    add(cut_extrude16_tool3.solids().sort_by_distance((525, 62.3, 583.6))[0], mode=Mode.SUBTRACT)
    add(cut_extrude16_tool4.solids().sort_by_distance((525, 62.3, 563.6))[0], mode=Mode.SUBTRACT)
    add(cut_extrude16_tool5.solids().sort_by_distance((525, 82.3, 33.5))[0], mode=Mode.SUBTRACT)
    add(cut_extrude16_tool6.solids().sort_by_distance((525, 82.3, 13.5))[0], mode=Mode.SUBTRACT)
    add(cut_extrude16_tool7.solids().sort_by_distance((525, 62.3, 13.5))[0], mode=Mode.SUBTRACT)
    add(cut_extrude16_tool8.solids().sort_by_distance((525, 62.3, 33.5))[0], mode=Mode.SUBTRACT)

    # Sketch27 → Cut-Extrude17 (cut)
    with BuildSketch(Plane.ZY.offset(-445)):
        with Locations((574.6, 62.5)):
            Rectangle(SKETCH27_W, SKETCH27_H)
    extrude(amount=-CUT_EXTRUDE17_DEPTH, mode=Mode.SUBTRACT)

    # Sketch28 → Cut-Extrude18 (cut)
    with BuildSketch(Plane.ZY.offset(-445).offset(CUT_EXTRUDE18_START)):
        with Locations((22.5, 62.5)):
            Rectangle(SKETCH28_W, SKETCH28_H)
        with Locations(Location((13.5, 62.3, 0), (0, 0, 180))):
            Circle(SKETCH28_R, mode=Mode.SUBTRACT)
        with Locations(Location((33.5, 62.3, 0), (0, 0, 180))):
            Circle(SKETCH28_R, mode=Mode.SUBTRACT)
    extrude(amount=CUT_EXTRUDE18_DEPTH, mode=Mode.SUBTRACT)

    # Sketch29 → Cut-Extrude19 (cut)
    with BuildSketch(Plane.XZ.offset(7)):
        with Locations((30, 298.55)):
            Rectangle(SKETCH29_W, SKETCH29_H)
    extrude(amount=-CUT_EXTRUDE19_DEPTH, mode=Mode.SUBTRACT)

    # Sketch33 → Cut-Extrude20 (cut, up to next)
    with BuildSketch(Plane.ZY, mode=Mode.PRIVATE) as cut_extrude20_sk1:
        with Locations((318.55, 79)):
            Circle(SKETCH33_R)
    cut_extrude20_tool1 = extrude(cut_extrude20_sk1.sketch, amount=-CUT_EXTRUDE20_REACH, mode=Mode.PRIVATE) & part.part
    # Sketch33 → Cut-Extrude20 (cut, up to next)
    with BuildSketch(Plane.ZY, mode=Mode.PRIVATE) as cut_extrude20_sk2:
        with Locations((319.356498111, 63)):
            Circle(SKETCH33_R)
    cut_extrude20_tool2 = extrude(cut_extrude20_sk2.sketch, amount=-CUT_EXTRUDE20_REACH, mode=Mode.PRIVATE) & part.part
    # Sketch33 → Cut-Extrude20 (cut, up to next)
    with BuildSketch(Plane.ZY, mode=Mode.PRIVATE) as cut_extrude20_sk3:
        with Locations((278.55, 79)):
            Circle(SKETCH33_R)
    cut_extrude20_tool3 = extrude(cut_extrude20_sk3.sketch, amount=-CUT_EXTRUDE20_REACH, mode=Mode.PRIVATE) & part.part
    # Sketch33 → Cut-Extrude20 (cut, up to next)
    with BuildSketch(Plane.ZY, mode=Mode.PRIVATE) as cut_extrude20_sk4:
        with Locations((279.356498111, 63)):
            Circle(SKETCH33_R)
    cut_extrude20_tool4 = extrude(cut_extrude20_sk4.sketch, amount=-CUT_EXTRUDE20_REACH, mode=Mode.PRIVATE) & part.part
    add(cut_extrude20_tool1.solids().sort_by_distance((0, 79, 318.55))[0], mode=Mode.SUBTRACT)
    add(cut_extrude20_tool2.solids().sort_by_distance((0, 63, 319.356498))[0], mode=Mode.SUBTRACT)
    add(cut_extrude20_tool3.solids().sort_by_distance((0, 79, 278.55))[0], mode=Mode.SUBTRACT)
    add(cut_extrude20_tool4.solids().sort_by_distance((0, 63, 279.356498))[0], mode=Mode.SUBTRACT)

    # Sketch37 → Cut-Extrude21 (cut)
    with BuildSketch(Plane(origin=(80, 0, 0), x_dir=(0, 0, -1), z_dir=(1, 0, 0))):
        with Locations((-299.68, 60)):
            Rectangle(SKETCH37_W, SKETCH37_H)
    extrude(amount=-CUT_EXTRUDE21_DEPTH, mode=Mode.SUBTRACT)

    # Sketch39 → Boss-Extrude6 (add)
    with BuildSketch(Plane.ZY):
        with Locations((5.5, 75)):
            Rectangle(SKETCH39_W, SKETCH39_H)
        with Locations((591.6, 75)):
            Rectangle(SKETCH39_W, SKETCH39_H)
    extrude(amount=BOSS_EXTRUDE6_DEPTH)

    # Sketch41 → Cut-Extrude22 (cut, through all)
    with BuildSketch(Plane(origin=(0, 0, 3), x_dir=(-1, 0, 0), z_dir=(0, 0, -1))):
        with Locations((10, 85)):
            Circle(SKETCH41_R)
        with Locations((30, 85)):
            Circle(SKETCH41_R)
        with Locations((30, 65)):
            Circle(SKETCH41_R)
        with Locations((10, 65)):
            Circle(SKETCH41_R)
    extrude(amount=-CUT_EXTRUDE22_DEPTH, mode=Mode.SUBTRACT)

    # Sketch42 → Boss-Extrude7 (add)
    with BuildSketch(Plane(origin=(80, 0, 0), x_dir=(0, 0, -1), z_dir=(1, 0, 0))):
        with Locations((-574.6, 62.5)):
            Rectangle(SKETCH42_W, SKETCH42_H)
        with Locations((-22.5, 62.5)):
            Rectangle(SKETCH42_W, SKETCH42_H)
    extrude(amount=-BOSS_EXTRUDE7_DEPTH)

    # Sketch43 → Boss-Extrude8 (add)
    with BuildSketch(Plane.ZY):
        with Locations((28.573944751, 74.190522587)):
            Rectangle(SKETCH43_W, SKETCH43_H)
        with Locations((567.8818258, 75)):
            Rectangle(SKETCH43_W_2, SKETCH43_H_2)
    extrude(amount=-BOSS_EXTRUDE8_DEPTH)

    # Sketch44 → Boss-Extrude9 (add)
    with BuildSketch(Plane(origin=(525, 0, 0), x_dir=(0, 0, -1), z_dir=(1, 0, 0))):
        with Locations((-572.281537672, 71.887491466)):
            Rectangle(SKETCH44_W, SKETCH44_H)
        with Locations((-24.748698221, 71.887491466)):
            Rectangle(SKETCH44_W_2, SKETCH44_H)
    extrude(amount=-BOSS_EXTRUDE9_DEPTH)

    # Sketch45 → Boss-Extrude10 (add)
    with BuildSketch(Plane.ZY.offset(-445)):
        with Locations((22.5, 62.5)):
            Rectangle(SKETCH45_W, SKETCH45_H)
        with Locations((574.6, 62.5)):
            Rectangle(SKETCH45_W, SKETCH45_H)
    extrude(amount=-BOSS_EXTRUDE10_DEPTH)

    # Sketch46 → Boss-Extrude11 (add)
    with BuildSketch(Plane(origin=(525, 0, 0), x_dir=(0, 0, -1), z_dir=(1, 0, 0))):
        with Locations((-591.6, 75)):
            Rectangle(SKETCH46_W, SKETCH46_H)
        with Locations((-5.5, 75)):
            Rectangle(SKETCH46_W, SKETCH46_H)
    extrude(amount=BOSS_EXTRUDE11_DEPTH)

    # Sketch47 → Cut-Extrude23 (cut, through all)
    with BuildSketch(Plane(origin=(0, 0, 3), x_dir=(-1, 0, 0), z_dir=(0, 0, -1))):
        with Locations(Location((-555, 85, 0), (0, 0, 90))):
            Circle(SKETCH47_R)
        with Locations(Location((-535, 84.658315236, 0), (0, 0, 90))):
            Circle(SKETCH47_R)
        with Locations(Location((-535, 64.658315236, 0), (0, 0, 90))):
            Circle(SKETCH47_R)
        with Locations(Location((-555, 65, 0), (0, 0, 90))):
            Circle(SKETCH47_R)
    extrude(amount=-CUT_EXTRUDE23_DEPTH, mode=Mode.SUBTRACT)

    # Fillet1
    fillet1_edges = [part.edges().sort_by_distance(p)[0] for p in [
        (0, 75, 8),
    ]]
    fillet(fillet1_edges, radius=FILLET1_R)

    # Fillet2
    fillet2_edges = [part.edges().sort_by_distance(p)[0] for p in [
        (0, 75, 589.1),
        (525, 75, 589.1),
        (525, 75, 8),
    ]]
    fillet(fillet2_edges, radius=FILLET2_R)

    # Sketch51 → Boss-Extrude12 (add)
    with BuildSketch(Plane.ZY):
        with Locations((28, 75)):
            Rectangle(SKETCH51_W, SKETCH51_H)
    extrude(amount=BOSS_EXTRUDE12_DEPTH)

    # Sketch52 → Cut-Extrude26 (cut, through all)
    with BuildSketch(Plane.ZY.offset(5)):
        with Locations((18, 85)):
            Circle(SKETCH52_R)
        with Locations((28, 85)):
            Circle(SKETCH52_R)
        with Locations((38, 85)):
            Circle(SKETCH52_R)
    extrude(amount=-CUT_EXTRUDE26_DEPTH, mode=Mode.SUBTRACT)

    # Sketch53 → Boss-Extrude13 (add, through all)
    with BuildSketch(Plane.ZY.offset(5)):
        with Locations(Location((28, 85, 0), (0, 0, 90))):
            Circle(SKETCH53_R)
    extrude(amount=-BOSS_EXTRUDE13_DEPTH)

    # Sketch54 → Cut-Extrude27 (cut)
    with BuildSketch(Plane(origin=(565, 0, 0), x_dir=(0, 0, -1), z_dir=(1, 0, 0)).offset(CUT_EXTRUDE27_START)):
        with Locations(Location((-28, 85, 0), (0, 0, 90))):
            Circle(SKETCH54_R)
    extrude(amount=CUT_EXTRUDE27_DEPTH, mode=Mode.SUBTRACT)

    # Sketch55 → Cut-Extrude28 (cut)
    with BuildSketch(Plane(origin=(0, 0, 0), x_dir=(-1, 0, 0), z_dir=(0, 0, -1))):
        with Locations((-262.5, 87.7606164)):
            Rectangle(SKETCH55_W, SKETCH55_H)
    extrude(amount=-CUT_EXTRUDE28_DEPTH, mode=Mode.SUBTRACT)

    # Sketch57 → Cut-Extrude30 (cut, through all)
    with BuildSketch(Plane(origin=(0, 0, 0), x_dir=(-1, 0, 0), z_dir=(0, 0, -1))):
        with Locations((-361.593448364, 14.646029288)):
            Rectangle(SKETCH57_W, SKETCH57_H)
    extrude(amount=-CUT_EXTRUDE30_DEPTH, mode=Mode.SUBTRACT)


with BuildPart() as body_2:
    # of the pieces the cut leaves, the one that is kept (cut_extrude30_keep)
    add(part.part.solids().sort_by_distance((0, 55, 3))[0])

    # Sketch60 → Boss-Extrude15 (add)
    with BuildSketch(Plane(origin=(0, 0, 0), x_dir=(0, 0, -1), z_dir=(1, 0, 0))):
        with Locations((17, 75)):
            Rectangle(SKETCH60_W, SKETCH60_H)
    extrude(amount=-BOSS_EXTRUDE15_DEPTH)

    # Sketch61 → Cut-Extrude31 (cut)
    with BuildSketch(Plane(origin=(0, 0, 0), x_dir=(0, 0, -1), z_dir=(1, 0, 0))):
        with Locations((7, 85)):
            Circle(SKETCH61_R)
        with Locations((27, 85)):
            Circle(SKETCH61_R)
    extrude(amount=-CUT_EXTRUDE31_DEPTH, mode=Mode.SUBTRACT)

    # Sketch62 → Cut-Extrude32 (cut)
    with BuildSketch(Plane.ZY.offset(5)):
        with Locations((28, 75)):
            Rectangle(SKETCH62_W, SKETCH62_H)
    extrude(amount=-CUT_EXTRUDE32_DEPTH, mode=Mode.SUBTRACT)

    # Sketch63 → Boss-Extrude16 (add)
    # profile 1 of 2: a face of its own
    with BuildSketch(Plane.ZY.offset(5)):
        with Locations((-7, 85)):
            Circle(SKETCH63_R)
        with Locations((-7, 85)):
            Circle(SKETCH63_R_2, mode=Mode.SUBTRACT)
    # profile 2 of 2: a face of its own
    with BuildSketch(Plane.ZY.offset(5)):
        with Locations((-27, 85)):
            Circle(SKETCH63_R_3)
        with Locations((-27, 85)):
            Circle(SKETCH63_R_2, mode=Mode.SUBTRACT)
    extrude(amount=-BOSS_EXTRUDE16_DEPTH)

    # Sketch64 → Cut-Extrude33 (cut)
    with BuildSketch(Plane.ZY.offset(5)):
        with Locations((-27, 85)):
            Circle(SKETCH64_R)
        with Locations((-7, 85)):
            Circle(SKETCH64_R)
    extrude(amount=-CUT_EXTRUDE33_DEPTH, mode=Mode.SUBTRACT)


solid = body_2.part
